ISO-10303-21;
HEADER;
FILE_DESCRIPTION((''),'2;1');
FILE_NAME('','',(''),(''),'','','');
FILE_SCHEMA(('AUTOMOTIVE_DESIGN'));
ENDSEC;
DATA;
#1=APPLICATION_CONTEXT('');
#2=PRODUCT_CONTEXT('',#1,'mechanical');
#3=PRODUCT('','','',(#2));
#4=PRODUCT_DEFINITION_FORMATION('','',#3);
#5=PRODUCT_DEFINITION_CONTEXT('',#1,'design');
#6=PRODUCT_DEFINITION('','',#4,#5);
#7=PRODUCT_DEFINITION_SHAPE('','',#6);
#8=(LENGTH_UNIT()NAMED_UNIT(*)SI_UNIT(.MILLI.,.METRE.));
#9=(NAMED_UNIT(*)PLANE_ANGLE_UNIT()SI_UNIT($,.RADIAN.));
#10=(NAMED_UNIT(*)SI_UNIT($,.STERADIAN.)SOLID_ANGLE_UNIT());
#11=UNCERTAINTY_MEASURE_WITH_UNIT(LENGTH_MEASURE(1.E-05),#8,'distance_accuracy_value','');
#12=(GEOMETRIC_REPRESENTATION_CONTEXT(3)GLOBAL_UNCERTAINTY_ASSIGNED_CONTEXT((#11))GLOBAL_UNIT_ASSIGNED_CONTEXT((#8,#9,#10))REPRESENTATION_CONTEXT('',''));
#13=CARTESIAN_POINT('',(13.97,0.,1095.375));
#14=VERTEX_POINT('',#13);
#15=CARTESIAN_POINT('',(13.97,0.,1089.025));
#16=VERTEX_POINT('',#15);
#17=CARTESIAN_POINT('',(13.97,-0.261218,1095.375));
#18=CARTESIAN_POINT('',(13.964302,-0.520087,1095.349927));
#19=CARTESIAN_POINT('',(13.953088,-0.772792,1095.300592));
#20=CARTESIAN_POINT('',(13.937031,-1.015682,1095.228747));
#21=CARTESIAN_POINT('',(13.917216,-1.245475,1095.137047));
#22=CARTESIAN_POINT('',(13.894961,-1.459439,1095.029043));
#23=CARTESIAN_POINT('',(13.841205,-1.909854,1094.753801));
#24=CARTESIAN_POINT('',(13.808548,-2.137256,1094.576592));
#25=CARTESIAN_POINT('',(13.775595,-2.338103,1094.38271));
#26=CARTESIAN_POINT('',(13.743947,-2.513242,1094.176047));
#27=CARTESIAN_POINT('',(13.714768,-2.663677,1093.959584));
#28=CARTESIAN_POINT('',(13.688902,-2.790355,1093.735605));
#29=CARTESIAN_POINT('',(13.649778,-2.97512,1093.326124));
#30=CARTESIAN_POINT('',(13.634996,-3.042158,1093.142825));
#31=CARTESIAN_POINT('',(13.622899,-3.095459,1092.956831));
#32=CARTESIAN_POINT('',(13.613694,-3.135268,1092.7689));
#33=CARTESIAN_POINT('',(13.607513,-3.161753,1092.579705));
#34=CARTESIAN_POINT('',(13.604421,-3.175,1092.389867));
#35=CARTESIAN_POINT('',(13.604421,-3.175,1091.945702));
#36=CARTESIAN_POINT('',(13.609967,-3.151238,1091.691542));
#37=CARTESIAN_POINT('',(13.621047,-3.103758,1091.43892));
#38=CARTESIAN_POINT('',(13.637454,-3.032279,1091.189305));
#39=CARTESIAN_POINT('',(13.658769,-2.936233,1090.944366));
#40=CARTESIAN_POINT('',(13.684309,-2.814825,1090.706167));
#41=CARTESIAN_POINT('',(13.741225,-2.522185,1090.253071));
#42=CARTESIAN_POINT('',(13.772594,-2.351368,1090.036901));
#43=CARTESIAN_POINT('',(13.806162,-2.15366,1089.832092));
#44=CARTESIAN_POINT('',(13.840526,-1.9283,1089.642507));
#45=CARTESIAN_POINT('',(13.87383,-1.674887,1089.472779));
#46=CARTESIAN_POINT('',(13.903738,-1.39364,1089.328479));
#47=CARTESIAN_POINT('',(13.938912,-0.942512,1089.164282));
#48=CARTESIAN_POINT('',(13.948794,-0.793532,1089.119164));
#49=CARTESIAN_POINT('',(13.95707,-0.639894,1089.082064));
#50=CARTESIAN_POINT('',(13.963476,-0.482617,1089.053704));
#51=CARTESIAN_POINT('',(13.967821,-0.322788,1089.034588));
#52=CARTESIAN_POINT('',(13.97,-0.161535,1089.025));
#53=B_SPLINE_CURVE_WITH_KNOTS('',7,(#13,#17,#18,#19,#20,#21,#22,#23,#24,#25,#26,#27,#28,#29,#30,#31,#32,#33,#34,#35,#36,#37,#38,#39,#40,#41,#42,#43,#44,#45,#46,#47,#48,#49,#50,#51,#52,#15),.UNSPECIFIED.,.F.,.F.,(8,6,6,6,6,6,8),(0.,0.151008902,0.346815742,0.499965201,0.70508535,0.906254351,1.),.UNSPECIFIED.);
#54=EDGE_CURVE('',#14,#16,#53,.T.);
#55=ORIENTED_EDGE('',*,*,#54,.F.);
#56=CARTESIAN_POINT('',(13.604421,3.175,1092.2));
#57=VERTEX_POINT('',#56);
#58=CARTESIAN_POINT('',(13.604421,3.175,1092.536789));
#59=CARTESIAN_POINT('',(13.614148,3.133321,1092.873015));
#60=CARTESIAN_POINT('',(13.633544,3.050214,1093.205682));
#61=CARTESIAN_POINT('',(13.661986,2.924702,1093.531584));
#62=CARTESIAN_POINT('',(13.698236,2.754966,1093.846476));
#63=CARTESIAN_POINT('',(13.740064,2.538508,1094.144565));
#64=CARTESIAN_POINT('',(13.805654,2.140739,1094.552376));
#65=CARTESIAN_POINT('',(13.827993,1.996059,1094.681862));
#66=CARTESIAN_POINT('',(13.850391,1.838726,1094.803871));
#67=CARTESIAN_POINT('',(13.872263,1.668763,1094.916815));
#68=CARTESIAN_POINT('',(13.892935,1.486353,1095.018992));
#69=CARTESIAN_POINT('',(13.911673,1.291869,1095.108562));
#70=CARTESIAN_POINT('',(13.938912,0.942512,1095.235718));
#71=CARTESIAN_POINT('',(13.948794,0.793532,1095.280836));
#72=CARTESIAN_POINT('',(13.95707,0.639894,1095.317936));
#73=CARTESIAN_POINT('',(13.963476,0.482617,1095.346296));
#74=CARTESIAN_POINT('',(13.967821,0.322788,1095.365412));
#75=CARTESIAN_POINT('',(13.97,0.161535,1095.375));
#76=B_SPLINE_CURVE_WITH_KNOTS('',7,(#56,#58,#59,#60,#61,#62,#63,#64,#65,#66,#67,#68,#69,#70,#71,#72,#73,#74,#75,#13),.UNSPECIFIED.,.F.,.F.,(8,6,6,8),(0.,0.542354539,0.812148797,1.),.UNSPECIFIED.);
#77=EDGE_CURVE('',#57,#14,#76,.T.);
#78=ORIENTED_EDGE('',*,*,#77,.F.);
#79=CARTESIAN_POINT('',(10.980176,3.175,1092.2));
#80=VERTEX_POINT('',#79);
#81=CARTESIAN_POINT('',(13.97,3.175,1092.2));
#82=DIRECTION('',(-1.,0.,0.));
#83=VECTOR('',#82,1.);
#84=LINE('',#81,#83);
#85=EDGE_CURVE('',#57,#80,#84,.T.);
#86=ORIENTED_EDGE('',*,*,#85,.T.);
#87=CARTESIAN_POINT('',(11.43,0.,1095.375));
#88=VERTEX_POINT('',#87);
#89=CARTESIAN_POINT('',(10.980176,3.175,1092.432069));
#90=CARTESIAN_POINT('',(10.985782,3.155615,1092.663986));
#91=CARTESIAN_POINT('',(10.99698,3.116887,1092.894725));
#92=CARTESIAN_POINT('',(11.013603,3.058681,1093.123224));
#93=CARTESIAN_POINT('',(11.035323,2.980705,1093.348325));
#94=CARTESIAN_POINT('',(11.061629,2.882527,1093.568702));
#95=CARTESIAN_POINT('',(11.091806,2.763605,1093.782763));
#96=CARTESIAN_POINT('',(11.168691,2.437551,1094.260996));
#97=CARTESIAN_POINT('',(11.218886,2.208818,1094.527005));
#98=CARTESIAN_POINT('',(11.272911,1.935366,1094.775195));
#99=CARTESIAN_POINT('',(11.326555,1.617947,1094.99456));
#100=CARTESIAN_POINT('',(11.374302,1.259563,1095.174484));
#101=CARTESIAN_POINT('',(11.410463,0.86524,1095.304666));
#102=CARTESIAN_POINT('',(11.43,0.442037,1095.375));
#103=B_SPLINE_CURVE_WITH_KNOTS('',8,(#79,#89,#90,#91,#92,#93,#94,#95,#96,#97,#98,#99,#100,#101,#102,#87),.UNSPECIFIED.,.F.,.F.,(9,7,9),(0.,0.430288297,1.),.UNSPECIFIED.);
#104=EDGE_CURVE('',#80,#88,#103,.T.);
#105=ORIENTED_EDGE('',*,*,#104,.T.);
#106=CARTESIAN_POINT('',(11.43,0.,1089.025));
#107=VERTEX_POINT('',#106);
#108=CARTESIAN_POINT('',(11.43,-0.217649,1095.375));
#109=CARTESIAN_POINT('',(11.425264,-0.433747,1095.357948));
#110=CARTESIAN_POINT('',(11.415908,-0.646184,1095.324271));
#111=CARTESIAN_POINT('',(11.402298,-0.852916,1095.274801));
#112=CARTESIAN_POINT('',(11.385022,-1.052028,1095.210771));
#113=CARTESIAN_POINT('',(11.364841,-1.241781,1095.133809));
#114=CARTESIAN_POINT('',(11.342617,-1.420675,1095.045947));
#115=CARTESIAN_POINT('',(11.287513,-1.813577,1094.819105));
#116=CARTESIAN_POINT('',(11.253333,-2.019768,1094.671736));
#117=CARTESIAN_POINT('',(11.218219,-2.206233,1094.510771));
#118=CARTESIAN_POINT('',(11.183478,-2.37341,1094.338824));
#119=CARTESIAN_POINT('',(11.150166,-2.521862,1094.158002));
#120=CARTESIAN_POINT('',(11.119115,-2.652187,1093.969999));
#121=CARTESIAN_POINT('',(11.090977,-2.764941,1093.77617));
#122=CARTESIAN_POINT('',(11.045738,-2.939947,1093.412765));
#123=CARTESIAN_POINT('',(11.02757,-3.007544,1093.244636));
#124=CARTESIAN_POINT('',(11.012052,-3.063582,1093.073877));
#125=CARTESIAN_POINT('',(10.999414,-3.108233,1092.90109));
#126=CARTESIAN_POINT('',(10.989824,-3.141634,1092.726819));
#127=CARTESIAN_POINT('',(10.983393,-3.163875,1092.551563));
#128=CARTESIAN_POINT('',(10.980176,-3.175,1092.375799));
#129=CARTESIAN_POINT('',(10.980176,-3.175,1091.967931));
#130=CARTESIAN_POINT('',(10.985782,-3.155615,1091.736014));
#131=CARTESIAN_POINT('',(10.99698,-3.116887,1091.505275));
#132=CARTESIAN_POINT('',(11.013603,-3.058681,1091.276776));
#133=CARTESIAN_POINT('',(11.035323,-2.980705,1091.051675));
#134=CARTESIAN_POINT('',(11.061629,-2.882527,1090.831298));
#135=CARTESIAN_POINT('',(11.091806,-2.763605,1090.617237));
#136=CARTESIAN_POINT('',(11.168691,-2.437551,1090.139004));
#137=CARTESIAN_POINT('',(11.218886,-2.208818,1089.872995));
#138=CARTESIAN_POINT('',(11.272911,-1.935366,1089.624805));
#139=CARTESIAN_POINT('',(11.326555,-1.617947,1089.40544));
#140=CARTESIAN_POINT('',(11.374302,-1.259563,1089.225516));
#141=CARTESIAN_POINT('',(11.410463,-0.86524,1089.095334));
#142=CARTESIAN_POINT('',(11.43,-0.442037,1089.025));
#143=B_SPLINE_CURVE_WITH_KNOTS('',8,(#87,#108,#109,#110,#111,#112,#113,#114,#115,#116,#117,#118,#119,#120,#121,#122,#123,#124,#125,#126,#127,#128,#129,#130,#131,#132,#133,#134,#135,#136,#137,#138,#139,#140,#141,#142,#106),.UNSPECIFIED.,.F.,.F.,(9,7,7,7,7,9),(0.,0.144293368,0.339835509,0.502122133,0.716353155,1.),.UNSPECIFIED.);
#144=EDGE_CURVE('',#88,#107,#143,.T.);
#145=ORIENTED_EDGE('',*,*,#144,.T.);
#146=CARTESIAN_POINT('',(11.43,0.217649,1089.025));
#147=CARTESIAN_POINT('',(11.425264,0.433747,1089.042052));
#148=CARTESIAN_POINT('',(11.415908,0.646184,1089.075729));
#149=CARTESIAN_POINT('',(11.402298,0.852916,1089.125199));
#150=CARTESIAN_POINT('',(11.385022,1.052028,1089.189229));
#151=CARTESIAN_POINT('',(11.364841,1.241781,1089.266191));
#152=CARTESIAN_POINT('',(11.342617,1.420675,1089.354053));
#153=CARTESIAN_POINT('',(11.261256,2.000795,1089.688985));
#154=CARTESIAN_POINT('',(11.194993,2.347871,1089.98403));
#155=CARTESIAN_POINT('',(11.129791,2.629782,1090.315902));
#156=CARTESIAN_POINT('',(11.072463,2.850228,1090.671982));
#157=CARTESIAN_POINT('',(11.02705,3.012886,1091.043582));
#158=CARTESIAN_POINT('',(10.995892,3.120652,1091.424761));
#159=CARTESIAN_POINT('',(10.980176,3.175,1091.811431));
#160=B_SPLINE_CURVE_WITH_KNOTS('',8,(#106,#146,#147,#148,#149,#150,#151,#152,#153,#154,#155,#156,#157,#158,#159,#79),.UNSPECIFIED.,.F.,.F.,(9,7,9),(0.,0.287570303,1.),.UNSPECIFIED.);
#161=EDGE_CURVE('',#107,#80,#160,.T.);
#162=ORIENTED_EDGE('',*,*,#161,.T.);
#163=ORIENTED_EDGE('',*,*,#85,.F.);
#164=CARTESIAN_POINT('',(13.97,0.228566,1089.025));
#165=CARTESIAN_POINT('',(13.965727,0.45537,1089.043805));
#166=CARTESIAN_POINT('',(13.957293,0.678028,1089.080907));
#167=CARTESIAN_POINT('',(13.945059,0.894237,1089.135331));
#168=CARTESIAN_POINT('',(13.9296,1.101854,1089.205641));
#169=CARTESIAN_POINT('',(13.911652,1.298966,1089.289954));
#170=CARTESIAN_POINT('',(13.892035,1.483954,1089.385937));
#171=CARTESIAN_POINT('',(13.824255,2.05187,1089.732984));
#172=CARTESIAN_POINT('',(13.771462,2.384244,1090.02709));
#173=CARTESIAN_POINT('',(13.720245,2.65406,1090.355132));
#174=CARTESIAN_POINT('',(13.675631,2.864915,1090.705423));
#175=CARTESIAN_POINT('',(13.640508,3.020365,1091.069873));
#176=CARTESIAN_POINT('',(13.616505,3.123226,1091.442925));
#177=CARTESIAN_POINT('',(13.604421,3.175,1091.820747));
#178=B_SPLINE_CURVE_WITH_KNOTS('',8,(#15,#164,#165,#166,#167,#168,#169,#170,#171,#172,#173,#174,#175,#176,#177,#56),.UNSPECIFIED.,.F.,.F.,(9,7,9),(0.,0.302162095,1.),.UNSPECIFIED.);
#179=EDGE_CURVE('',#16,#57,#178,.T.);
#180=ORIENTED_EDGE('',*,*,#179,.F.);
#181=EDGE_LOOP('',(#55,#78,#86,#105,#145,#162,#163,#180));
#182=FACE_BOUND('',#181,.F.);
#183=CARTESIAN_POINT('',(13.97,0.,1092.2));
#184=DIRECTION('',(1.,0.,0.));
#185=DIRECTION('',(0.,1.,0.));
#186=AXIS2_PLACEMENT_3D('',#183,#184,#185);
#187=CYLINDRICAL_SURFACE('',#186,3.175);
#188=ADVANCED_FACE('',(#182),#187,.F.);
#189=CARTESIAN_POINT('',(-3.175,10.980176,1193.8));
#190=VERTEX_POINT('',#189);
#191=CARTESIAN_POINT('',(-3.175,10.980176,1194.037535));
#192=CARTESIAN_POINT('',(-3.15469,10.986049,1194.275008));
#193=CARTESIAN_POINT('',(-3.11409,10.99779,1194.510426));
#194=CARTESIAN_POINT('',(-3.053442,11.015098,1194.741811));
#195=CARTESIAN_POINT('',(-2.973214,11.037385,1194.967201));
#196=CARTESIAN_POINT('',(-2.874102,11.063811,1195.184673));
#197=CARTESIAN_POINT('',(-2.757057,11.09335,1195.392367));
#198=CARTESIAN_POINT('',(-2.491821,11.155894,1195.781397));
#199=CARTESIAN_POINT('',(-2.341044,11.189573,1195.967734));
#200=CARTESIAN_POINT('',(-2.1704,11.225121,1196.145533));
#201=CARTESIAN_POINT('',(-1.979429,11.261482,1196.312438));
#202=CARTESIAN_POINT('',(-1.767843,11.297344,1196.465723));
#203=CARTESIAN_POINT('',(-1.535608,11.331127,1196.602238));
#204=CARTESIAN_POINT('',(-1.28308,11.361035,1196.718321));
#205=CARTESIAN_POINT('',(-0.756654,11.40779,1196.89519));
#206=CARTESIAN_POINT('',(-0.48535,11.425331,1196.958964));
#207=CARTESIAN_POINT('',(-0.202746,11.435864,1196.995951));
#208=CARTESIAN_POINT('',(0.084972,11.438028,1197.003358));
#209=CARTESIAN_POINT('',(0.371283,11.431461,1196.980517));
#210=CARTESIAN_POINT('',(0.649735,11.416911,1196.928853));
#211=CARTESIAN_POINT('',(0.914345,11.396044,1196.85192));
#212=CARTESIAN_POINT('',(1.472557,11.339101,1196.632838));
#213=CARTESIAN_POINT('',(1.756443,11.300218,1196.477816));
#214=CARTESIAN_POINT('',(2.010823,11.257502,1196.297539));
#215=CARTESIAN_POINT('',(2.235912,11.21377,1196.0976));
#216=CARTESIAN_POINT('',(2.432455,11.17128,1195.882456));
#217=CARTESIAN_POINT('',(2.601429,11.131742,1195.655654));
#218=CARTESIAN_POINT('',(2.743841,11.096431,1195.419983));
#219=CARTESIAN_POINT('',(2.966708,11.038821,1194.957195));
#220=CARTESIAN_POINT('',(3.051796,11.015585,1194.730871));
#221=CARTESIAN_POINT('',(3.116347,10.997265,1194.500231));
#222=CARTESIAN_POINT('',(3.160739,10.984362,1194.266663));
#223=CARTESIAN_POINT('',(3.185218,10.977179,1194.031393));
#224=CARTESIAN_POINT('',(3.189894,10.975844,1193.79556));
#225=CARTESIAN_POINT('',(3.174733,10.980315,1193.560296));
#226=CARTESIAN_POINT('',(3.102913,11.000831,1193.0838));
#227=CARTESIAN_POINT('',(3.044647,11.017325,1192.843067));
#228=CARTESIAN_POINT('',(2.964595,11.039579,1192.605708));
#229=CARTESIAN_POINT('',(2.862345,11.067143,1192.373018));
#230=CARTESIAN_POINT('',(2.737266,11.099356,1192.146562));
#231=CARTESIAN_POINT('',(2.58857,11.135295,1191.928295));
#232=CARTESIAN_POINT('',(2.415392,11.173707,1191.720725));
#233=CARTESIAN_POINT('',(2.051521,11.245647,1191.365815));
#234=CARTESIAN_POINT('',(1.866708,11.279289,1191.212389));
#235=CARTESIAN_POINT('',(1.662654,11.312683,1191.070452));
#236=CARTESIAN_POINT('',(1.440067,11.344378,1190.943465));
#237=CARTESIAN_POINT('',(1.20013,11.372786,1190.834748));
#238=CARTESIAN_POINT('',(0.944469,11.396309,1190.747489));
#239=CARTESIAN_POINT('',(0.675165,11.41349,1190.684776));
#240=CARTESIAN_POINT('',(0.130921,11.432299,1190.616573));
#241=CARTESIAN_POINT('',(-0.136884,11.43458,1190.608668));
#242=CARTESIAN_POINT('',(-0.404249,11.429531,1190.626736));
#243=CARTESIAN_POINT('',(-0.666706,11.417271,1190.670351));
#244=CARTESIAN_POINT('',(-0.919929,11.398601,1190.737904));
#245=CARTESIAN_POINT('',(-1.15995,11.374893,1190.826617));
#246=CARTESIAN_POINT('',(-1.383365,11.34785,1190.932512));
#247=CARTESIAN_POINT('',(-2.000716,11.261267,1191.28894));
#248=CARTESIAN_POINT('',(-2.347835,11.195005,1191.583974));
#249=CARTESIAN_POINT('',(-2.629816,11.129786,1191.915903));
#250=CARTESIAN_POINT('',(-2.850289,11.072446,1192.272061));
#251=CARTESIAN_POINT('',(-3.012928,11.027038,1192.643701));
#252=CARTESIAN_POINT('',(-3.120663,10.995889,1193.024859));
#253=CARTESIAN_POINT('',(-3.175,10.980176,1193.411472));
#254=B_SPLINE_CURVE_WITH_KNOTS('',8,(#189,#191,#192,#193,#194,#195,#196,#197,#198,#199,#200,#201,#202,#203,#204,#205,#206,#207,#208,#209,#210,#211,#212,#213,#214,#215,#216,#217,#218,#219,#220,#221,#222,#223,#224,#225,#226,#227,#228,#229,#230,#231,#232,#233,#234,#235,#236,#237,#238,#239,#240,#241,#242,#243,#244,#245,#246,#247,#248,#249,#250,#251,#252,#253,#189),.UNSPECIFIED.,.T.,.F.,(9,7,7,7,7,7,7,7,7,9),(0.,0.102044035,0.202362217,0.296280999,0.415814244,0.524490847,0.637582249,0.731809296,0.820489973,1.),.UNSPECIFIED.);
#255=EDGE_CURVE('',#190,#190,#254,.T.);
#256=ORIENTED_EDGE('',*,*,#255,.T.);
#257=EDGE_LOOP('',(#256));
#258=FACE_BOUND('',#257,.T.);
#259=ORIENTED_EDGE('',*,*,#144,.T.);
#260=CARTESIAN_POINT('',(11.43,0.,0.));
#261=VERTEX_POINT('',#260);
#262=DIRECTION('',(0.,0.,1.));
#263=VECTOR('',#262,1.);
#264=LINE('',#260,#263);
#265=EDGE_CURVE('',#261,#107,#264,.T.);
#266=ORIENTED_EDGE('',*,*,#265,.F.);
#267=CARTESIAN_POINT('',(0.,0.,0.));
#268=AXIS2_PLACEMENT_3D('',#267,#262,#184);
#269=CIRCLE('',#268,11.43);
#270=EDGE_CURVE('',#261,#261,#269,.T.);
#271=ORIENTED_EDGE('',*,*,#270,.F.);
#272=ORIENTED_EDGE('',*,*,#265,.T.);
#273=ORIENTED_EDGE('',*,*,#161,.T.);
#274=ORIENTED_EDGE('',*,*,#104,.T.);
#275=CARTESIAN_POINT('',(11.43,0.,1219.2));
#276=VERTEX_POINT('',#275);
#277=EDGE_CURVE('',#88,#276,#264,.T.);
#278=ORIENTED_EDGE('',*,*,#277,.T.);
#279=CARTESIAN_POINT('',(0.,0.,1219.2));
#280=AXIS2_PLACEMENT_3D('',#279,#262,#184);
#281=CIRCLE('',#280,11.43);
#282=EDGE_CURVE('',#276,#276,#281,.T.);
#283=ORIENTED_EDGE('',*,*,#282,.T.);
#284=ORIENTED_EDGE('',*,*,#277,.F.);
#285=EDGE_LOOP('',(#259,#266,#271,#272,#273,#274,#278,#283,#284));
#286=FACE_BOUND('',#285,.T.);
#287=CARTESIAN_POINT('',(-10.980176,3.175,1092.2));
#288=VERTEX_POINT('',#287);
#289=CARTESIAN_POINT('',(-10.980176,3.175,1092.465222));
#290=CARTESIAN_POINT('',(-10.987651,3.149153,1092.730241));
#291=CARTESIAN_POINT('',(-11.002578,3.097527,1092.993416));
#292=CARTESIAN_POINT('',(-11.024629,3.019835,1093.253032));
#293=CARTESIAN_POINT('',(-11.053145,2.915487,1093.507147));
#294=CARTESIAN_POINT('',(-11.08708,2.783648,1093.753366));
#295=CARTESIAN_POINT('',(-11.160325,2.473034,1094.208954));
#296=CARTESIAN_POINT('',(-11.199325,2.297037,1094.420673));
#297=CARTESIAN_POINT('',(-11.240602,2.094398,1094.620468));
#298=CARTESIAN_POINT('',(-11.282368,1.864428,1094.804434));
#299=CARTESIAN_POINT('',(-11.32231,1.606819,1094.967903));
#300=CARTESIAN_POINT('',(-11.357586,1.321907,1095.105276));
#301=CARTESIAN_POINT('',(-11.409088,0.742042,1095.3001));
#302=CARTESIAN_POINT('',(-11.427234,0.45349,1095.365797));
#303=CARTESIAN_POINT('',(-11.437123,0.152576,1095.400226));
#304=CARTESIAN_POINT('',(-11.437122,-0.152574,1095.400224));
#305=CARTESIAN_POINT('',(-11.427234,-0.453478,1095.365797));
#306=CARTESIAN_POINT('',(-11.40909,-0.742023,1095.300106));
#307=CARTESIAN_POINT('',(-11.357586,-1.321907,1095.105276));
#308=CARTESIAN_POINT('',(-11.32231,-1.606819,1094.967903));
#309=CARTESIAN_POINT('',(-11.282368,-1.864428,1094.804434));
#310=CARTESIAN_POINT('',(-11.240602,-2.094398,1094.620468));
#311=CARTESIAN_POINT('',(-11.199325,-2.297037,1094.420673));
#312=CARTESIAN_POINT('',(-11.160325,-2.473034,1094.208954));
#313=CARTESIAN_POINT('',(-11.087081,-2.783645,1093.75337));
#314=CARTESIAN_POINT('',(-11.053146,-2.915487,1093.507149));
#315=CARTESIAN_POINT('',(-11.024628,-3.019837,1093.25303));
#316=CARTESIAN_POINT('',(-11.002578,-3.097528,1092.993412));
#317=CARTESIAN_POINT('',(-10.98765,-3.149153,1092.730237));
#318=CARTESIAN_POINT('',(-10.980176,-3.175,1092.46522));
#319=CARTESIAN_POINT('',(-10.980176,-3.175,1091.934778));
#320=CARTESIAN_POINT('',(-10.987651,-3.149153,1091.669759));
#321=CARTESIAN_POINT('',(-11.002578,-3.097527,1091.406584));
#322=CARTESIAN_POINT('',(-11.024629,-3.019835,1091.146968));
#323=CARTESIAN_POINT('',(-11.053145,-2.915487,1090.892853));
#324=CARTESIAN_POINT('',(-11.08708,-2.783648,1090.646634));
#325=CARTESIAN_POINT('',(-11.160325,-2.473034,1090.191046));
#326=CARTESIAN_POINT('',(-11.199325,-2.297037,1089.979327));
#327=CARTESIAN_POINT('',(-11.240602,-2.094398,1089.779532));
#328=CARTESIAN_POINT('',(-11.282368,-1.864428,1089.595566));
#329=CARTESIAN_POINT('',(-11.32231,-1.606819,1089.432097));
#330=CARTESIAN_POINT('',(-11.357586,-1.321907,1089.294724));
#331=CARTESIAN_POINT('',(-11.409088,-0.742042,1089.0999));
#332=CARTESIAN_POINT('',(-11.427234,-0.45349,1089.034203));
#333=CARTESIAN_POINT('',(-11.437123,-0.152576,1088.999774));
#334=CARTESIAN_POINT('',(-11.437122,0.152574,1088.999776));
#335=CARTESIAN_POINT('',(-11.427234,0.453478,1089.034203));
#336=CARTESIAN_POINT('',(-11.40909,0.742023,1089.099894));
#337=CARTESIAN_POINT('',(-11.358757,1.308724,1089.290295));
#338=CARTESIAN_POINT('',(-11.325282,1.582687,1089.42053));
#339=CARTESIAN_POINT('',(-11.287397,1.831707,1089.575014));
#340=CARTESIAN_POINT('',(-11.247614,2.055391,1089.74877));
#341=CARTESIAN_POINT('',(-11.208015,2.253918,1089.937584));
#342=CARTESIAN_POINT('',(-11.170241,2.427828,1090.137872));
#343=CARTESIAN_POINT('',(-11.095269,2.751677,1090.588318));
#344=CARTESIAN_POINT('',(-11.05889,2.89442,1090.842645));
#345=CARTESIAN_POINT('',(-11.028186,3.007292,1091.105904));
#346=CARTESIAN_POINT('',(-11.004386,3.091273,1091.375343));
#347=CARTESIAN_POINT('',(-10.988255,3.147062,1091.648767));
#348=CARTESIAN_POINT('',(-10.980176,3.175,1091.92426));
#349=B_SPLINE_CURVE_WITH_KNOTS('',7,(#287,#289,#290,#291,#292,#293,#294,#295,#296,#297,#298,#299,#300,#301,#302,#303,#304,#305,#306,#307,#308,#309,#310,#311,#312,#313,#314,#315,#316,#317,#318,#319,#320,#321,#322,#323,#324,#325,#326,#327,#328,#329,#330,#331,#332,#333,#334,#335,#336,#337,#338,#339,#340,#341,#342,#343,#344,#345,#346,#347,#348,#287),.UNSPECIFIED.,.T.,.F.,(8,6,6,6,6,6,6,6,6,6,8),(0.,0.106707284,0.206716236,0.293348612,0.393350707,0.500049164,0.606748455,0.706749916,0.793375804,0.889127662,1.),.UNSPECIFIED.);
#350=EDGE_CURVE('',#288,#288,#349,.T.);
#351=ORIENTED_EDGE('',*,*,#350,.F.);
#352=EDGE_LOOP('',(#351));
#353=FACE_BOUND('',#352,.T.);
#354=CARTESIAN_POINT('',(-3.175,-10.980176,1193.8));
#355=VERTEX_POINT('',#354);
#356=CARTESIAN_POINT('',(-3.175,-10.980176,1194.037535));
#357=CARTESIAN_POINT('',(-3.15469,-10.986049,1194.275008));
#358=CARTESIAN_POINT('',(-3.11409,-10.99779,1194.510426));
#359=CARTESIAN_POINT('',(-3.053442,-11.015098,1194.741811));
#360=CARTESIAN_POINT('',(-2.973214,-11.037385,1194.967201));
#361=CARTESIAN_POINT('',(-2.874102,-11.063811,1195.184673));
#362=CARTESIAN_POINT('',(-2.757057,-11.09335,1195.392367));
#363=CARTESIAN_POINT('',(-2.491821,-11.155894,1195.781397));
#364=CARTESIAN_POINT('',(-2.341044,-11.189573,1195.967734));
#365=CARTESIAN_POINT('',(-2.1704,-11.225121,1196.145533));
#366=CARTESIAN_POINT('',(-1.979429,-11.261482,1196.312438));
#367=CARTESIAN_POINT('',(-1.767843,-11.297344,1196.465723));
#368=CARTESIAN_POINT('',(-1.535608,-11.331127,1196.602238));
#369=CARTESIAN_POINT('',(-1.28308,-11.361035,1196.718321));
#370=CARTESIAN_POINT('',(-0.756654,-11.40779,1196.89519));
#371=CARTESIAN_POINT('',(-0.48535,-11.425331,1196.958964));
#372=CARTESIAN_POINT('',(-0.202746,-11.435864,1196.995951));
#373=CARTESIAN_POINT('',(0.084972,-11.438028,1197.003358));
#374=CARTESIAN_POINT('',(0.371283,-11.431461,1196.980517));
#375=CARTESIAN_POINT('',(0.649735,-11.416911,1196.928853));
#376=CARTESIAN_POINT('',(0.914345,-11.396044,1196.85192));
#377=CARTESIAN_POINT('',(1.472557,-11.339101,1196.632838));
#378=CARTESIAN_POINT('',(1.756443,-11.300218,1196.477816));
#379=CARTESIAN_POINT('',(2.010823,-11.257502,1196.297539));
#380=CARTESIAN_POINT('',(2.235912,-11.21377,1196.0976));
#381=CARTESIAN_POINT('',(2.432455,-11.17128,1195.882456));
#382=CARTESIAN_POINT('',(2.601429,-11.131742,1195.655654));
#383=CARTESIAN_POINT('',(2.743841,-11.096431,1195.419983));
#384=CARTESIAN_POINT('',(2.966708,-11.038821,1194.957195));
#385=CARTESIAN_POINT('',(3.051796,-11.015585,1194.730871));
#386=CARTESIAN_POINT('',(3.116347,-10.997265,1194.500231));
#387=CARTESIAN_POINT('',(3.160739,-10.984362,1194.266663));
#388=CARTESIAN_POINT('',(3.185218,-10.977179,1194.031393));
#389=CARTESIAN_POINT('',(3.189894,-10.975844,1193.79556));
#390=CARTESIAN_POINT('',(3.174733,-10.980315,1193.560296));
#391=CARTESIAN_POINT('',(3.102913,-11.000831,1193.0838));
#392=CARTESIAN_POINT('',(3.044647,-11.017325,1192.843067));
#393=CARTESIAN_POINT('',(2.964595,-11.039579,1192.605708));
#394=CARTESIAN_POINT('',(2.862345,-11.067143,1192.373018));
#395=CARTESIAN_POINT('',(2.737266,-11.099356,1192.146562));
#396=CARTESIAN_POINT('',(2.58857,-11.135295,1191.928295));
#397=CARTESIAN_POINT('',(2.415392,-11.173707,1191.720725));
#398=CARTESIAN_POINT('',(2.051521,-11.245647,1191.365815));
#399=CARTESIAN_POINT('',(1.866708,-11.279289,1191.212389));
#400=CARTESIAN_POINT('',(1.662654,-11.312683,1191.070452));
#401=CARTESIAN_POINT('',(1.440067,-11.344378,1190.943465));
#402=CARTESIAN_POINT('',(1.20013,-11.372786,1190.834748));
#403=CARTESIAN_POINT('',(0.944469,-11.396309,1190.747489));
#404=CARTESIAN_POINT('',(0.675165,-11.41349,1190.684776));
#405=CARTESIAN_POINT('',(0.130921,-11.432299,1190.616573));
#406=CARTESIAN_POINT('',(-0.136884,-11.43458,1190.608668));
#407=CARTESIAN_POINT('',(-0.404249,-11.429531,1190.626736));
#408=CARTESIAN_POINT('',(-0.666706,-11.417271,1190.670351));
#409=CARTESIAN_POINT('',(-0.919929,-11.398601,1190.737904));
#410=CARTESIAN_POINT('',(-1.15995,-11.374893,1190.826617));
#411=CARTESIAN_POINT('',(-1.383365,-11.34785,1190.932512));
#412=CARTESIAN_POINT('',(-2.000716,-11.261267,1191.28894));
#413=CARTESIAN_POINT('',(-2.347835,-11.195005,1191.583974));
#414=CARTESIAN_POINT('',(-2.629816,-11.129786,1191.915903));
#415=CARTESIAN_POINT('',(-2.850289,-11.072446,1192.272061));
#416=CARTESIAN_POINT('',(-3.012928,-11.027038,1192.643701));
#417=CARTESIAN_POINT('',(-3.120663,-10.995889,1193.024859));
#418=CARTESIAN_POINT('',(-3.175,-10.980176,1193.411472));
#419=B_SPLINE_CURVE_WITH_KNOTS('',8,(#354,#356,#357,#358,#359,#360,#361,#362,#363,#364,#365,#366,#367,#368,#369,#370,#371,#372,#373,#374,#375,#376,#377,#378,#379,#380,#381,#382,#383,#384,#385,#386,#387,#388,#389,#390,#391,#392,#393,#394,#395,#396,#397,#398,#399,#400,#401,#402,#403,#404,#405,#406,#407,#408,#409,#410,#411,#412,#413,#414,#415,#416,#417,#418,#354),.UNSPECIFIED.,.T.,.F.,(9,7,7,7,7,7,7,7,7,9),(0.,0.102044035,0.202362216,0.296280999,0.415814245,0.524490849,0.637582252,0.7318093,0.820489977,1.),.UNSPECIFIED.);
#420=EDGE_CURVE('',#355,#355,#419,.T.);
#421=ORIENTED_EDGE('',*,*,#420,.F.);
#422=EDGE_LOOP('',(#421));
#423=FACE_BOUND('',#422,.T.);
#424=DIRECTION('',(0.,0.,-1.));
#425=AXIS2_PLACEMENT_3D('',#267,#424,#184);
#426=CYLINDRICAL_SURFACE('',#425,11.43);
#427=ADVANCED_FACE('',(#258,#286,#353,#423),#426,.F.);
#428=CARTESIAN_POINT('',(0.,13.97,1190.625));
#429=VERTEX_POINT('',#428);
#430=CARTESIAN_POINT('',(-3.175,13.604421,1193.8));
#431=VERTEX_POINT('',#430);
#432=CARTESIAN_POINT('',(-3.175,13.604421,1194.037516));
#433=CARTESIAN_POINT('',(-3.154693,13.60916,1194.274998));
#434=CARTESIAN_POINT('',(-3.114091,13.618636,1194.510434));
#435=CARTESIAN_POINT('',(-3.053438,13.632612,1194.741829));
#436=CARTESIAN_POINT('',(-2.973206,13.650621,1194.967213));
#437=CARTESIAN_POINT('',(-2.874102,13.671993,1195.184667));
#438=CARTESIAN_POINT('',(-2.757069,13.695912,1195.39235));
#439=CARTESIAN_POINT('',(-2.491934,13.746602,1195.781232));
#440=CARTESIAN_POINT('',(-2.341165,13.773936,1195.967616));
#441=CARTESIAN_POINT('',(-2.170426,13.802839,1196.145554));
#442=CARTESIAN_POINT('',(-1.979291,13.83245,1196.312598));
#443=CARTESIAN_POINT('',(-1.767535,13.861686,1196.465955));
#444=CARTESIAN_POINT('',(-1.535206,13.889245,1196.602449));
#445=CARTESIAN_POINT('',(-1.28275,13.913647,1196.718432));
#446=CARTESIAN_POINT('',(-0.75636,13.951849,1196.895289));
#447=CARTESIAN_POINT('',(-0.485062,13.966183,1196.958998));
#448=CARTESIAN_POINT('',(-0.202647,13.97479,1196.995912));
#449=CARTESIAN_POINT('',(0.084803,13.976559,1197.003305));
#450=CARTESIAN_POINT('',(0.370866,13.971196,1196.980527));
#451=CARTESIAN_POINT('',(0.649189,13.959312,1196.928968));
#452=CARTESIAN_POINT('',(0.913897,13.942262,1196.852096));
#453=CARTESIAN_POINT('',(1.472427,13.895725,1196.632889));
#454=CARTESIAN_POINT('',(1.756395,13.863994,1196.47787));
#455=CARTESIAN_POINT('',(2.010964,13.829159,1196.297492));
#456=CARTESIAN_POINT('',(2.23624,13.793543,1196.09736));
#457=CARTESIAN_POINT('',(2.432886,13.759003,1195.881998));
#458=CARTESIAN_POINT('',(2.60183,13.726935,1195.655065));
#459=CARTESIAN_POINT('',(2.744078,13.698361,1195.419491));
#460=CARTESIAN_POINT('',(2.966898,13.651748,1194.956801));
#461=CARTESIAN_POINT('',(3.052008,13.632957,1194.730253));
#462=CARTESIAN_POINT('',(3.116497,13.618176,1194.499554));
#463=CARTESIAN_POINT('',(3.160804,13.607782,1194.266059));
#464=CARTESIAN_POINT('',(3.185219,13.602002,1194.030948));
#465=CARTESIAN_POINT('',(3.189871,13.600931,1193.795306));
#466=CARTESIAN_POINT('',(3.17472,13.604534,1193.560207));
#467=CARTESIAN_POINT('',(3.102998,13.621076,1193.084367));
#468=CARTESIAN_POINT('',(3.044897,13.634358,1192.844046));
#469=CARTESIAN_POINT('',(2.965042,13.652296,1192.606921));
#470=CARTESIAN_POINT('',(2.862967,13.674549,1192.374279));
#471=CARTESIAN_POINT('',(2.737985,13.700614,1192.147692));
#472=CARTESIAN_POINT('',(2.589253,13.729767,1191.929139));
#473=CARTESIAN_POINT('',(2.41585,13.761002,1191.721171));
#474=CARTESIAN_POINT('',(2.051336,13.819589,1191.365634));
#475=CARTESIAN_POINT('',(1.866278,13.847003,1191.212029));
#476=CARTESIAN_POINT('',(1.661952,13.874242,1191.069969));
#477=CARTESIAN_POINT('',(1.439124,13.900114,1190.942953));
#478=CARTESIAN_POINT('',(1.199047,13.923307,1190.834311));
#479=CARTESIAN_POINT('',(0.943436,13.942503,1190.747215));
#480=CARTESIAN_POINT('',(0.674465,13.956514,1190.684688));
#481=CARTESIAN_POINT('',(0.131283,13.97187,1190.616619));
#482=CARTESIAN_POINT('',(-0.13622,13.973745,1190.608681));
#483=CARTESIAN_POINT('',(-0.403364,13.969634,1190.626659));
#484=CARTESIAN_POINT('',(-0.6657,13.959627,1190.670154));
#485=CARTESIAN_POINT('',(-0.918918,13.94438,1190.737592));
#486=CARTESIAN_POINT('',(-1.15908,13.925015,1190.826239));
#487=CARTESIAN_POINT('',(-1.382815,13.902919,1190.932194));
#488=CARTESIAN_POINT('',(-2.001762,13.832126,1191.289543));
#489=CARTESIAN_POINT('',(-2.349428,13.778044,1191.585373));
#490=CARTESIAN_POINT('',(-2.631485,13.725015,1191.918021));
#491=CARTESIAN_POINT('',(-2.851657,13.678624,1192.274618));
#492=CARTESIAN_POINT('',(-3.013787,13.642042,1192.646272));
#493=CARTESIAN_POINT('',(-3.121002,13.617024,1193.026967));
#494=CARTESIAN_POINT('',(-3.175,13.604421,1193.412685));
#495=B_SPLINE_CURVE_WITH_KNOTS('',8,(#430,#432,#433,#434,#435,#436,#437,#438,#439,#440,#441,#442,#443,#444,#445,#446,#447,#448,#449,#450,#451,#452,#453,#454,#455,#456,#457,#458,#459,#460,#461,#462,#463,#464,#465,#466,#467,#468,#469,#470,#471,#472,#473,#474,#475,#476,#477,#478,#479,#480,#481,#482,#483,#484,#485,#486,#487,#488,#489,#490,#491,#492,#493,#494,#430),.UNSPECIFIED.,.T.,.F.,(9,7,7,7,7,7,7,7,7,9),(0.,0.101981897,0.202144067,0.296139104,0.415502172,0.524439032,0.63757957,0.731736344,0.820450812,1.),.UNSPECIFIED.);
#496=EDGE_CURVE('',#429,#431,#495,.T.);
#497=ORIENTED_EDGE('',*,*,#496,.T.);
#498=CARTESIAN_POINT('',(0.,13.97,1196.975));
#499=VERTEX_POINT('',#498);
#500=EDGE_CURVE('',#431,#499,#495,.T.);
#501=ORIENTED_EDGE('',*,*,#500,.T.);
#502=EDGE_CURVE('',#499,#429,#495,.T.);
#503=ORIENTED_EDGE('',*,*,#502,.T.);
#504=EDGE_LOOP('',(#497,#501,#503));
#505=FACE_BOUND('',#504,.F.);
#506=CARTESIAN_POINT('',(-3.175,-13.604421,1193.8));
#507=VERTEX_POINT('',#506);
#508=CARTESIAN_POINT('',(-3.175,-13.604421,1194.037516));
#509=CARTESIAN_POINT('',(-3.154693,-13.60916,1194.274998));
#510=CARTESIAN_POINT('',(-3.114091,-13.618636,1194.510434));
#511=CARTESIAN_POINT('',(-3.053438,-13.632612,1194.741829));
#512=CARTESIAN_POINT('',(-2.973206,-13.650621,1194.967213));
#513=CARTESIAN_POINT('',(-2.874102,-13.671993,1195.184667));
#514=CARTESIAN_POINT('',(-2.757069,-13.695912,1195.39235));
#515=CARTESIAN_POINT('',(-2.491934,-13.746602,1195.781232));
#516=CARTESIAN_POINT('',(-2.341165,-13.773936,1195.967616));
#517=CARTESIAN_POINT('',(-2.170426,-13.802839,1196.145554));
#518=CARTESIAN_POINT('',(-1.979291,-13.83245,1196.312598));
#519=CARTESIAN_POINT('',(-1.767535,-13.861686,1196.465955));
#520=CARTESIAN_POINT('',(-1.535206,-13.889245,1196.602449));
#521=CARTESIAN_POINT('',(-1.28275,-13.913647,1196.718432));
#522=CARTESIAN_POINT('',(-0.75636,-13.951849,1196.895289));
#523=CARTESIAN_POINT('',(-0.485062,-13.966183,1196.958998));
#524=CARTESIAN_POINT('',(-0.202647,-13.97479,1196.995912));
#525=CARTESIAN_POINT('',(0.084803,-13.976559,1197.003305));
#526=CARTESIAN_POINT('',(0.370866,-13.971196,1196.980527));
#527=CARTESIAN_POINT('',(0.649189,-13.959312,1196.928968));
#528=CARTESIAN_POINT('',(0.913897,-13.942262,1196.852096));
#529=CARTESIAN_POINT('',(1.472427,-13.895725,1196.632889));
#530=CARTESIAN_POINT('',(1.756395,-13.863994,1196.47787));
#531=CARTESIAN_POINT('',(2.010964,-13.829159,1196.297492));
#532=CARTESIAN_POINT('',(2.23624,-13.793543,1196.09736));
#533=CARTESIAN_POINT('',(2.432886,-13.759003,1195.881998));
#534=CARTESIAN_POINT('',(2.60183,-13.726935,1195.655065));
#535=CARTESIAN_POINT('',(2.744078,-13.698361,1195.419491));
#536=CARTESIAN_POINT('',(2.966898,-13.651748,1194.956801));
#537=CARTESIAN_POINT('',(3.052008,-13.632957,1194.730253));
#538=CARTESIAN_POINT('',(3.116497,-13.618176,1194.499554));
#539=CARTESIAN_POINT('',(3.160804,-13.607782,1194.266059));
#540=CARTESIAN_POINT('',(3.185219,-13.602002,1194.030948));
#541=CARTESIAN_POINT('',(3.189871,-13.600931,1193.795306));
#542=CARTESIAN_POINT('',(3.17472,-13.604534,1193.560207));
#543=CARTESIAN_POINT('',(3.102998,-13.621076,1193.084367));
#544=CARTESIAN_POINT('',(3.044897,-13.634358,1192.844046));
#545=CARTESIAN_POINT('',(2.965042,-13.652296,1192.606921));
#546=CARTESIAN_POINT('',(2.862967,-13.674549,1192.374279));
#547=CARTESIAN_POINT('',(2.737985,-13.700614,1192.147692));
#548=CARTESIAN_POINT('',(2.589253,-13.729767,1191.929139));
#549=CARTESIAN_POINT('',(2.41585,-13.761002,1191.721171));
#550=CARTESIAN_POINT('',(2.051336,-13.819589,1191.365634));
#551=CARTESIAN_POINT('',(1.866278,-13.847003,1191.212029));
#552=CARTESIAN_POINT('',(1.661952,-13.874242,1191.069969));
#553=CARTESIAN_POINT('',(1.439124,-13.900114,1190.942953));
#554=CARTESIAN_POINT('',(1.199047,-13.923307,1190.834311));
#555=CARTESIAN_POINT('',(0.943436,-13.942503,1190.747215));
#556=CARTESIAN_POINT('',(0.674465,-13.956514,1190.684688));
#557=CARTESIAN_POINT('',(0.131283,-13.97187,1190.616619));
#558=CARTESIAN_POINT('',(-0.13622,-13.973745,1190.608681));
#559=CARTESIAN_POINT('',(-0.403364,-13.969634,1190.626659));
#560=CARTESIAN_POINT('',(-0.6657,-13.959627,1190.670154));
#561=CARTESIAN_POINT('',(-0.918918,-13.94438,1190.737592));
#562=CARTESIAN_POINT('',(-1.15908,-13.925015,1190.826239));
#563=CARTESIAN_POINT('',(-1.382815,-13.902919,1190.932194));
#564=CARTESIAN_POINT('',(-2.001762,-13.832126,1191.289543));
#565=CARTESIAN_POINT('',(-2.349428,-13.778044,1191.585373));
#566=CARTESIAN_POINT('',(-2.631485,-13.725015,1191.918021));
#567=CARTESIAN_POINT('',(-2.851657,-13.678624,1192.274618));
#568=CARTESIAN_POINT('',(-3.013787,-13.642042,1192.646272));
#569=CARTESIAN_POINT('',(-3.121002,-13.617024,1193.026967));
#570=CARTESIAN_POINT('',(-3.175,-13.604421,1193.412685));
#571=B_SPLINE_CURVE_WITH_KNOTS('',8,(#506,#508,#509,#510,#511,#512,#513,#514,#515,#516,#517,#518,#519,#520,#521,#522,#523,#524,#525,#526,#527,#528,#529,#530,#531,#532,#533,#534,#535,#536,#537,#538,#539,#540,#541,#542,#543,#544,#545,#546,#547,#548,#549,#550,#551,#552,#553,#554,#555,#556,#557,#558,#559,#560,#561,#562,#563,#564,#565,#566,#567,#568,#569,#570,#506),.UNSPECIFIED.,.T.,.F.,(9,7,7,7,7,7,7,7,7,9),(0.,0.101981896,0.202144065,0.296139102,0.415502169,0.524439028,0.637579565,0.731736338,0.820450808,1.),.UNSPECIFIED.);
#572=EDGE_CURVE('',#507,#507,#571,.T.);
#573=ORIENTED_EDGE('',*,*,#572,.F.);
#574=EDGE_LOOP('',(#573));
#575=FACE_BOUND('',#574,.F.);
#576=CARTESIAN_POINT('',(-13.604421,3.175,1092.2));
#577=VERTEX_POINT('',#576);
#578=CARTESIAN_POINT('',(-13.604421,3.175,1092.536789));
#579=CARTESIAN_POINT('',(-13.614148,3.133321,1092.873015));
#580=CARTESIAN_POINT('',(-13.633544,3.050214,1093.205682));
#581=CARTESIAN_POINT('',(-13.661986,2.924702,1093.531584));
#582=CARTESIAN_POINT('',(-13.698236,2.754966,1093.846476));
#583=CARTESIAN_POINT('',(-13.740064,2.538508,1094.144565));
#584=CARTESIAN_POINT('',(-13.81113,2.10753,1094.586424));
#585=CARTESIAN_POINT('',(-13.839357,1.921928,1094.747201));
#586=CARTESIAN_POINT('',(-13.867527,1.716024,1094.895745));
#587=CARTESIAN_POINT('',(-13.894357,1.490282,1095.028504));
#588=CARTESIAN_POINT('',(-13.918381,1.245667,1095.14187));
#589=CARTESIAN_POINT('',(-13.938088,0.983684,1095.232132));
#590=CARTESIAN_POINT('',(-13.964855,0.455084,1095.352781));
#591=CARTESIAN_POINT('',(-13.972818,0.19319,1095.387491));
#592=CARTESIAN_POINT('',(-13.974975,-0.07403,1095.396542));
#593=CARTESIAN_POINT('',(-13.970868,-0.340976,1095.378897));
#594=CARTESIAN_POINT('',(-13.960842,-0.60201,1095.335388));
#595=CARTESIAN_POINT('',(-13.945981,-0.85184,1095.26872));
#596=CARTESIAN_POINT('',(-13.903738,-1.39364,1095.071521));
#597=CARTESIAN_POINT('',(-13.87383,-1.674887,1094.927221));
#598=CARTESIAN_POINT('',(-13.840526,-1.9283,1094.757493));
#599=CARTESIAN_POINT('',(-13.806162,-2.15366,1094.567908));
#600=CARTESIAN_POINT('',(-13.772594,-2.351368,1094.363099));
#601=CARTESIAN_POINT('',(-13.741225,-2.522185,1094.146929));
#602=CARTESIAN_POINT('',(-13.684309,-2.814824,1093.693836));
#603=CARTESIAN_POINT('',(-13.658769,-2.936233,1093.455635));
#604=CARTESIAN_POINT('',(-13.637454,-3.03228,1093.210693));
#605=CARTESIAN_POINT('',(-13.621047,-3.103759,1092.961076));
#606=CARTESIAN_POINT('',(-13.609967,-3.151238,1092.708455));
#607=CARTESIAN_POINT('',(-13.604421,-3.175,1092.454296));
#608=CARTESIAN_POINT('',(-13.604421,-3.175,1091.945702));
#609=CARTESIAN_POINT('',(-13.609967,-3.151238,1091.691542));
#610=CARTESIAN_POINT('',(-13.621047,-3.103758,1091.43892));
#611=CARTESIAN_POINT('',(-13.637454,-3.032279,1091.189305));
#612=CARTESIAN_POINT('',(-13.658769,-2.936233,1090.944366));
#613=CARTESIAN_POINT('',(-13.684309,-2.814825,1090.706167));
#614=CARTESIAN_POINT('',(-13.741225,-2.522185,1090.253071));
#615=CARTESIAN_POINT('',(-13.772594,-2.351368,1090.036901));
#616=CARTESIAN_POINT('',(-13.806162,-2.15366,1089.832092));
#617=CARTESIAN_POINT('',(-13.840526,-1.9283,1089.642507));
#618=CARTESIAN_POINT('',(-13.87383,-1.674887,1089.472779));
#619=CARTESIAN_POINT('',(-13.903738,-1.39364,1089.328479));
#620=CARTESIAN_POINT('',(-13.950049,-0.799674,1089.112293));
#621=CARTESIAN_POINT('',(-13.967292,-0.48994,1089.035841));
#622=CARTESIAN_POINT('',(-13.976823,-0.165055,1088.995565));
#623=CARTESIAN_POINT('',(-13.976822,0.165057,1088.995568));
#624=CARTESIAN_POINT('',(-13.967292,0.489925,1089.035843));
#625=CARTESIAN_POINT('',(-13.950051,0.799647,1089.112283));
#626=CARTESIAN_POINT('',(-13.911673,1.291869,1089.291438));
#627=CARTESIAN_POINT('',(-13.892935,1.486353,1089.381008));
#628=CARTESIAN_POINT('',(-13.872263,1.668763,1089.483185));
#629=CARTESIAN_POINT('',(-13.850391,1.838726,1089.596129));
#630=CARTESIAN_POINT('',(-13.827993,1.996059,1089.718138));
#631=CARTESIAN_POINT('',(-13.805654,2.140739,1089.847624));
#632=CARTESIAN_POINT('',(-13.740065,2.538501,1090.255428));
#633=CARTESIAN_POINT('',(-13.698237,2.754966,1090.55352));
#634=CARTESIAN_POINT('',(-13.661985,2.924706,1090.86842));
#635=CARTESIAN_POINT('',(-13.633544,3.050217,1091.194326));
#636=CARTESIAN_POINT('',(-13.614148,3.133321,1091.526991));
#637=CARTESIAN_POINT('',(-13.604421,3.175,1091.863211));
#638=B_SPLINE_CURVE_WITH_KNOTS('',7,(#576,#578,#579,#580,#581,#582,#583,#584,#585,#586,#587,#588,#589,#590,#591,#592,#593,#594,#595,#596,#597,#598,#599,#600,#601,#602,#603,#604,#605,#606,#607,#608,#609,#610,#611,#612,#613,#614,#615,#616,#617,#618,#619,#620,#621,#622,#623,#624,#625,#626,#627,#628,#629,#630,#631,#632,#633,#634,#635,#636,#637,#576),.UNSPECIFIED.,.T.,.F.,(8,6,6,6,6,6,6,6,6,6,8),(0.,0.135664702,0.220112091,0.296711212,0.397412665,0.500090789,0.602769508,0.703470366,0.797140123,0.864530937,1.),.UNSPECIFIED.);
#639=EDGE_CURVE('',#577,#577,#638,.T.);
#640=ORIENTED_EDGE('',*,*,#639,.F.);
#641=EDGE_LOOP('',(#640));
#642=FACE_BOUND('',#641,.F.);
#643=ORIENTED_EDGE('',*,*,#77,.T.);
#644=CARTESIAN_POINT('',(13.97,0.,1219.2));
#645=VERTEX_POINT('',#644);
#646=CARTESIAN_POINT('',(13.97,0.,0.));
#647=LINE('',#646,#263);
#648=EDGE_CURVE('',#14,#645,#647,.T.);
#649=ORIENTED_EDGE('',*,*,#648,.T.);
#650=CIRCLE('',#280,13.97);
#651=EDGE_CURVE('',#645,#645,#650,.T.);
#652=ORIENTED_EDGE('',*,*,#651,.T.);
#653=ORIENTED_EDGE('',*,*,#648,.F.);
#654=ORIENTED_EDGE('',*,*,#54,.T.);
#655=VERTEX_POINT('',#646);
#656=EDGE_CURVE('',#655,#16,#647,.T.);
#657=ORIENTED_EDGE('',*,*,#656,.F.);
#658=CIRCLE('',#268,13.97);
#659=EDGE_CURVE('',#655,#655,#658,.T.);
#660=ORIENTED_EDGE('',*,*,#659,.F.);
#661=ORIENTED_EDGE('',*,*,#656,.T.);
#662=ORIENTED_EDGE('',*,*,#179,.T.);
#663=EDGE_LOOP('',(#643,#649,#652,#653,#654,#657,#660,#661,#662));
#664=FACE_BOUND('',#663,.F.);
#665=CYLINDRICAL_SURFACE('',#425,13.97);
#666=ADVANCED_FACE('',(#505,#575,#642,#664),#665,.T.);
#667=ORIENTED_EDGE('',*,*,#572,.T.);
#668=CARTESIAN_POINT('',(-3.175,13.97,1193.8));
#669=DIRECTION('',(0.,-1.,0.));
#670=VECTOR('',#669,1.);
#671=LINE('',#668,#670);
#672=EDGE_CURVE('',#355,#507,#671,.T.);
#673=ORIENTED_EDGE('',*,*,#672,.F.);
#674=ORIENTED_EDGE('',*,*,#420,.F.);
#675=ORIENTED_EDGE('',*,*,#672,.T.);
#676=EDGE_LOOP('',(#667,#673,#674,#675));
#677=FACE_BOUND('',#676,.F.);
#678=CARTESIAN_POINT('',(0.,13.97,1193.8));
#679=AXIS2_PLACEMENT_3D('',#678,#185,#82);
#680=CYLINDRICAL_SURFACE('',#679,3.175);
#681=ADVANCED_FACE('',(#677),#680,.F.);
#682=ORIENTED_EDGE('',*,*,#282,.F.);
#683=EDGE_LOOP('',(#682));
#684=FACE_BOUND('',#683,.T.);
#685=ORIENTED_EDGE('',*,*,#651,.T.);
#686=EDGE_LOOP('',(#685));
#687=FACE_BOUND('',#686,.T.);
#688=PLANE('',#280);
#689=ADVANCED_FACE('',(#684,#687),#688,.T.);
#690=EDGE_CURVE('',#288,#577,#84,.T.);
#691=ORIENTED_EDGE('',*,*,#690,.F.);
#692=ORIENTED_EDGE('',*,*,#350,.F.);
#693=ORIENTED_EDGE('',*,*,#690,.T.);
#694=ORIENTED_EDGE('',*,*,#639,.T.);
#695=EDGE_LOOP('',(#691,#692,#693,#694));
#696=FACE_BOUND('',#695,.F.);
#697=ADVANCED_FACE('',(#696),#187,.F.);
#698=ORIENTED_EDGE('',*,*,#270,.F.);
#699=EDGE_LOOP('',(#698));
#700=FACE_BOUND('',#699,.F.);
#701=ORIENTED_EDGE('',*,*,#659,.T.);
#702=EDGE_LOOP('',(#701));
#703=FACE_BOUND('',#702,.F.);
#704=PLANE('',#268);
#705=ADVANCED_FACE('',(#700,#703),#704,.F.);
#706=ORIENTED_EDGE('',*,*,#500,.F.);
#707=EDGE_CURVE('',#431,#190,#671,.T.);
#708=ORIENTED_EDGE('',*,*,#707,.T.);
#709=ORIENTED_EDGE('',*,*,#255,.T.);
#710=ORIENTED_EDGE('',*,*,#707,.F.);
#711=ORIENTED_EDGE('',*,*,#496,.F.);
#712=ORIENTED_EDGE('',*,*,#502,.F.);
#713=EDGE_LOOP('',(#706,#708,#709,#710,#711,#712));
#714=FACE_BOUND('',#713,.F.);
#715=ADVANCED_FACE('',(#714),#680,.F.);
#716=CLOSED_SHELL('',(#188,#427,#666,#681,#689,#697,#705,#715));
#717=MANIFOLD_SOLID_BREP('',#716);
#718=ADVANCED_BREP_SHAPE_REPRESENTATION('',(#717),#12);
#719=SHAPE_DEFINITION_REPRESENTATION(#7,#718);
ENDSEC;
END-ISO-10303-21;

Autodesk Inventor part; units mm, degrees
ref_plane "XY Plane" through (0, 0, 0) normal (0, 0, 1) x (1, 0, 0)
sketch "Sketch1" plane through (0, 0, 0) normal (0, 0, 1) x (1, 0, 0)
  circle A0 centre (0, 0) radius 11.43
  circle A1 centre (0, 0) radius 13.97
  dimension "d0" = 27.94
  dimension "d1" = 22.86
extrude "Extrusion1" add sketch "Sketch1" along normal blind 1219.2
ref_plane "Work Plane3" through (13.97, 0, 0) normal (1, 0, 0) x (0, 1, 0)
sketch "Sketch3" plane through (13.97, 0, 0) normal (1, 0, 0) x (0, 1, 0)
  circle A0 centre (0, 1092.2) radius 3.175
  line L0 (13.97, 1219.2) -> (-13.97, 1219.2) projected
  point P0 (0, 0)
  dimension "d5" = 127
  dimension "d6" = 6.35
extrude "Extrusion2" cut sketch "Sketch3" against normal through all
ref_plane "Work Plane4" through (0, 13.97, 0) normal (0, 1, 0) x (-1, 0, 0)
sketch "Sketch4" plane through (0, 13.97, 0) normal (0, 1, 0) x (-1, 0, 0)
  circle A0 centre (0, 1193.8) radius 3.175
  line L0 (13.97, 1219.2) -> (-13.97, 1219.2) projected
  point P0 (0, 0)
  dimension "d9" = 6.35
  dimension "d10" = 25.4
extrude "Extrusion3" cut sketch "Sketch4" against normal through all
equation "\"d1\" = cArmInsideDiam"
equation "\"d5\" = cArmAxelDistanceFromEnd"
equation "\"d6\" = boltHolesDiam"
equation "\"d9\" = boltHolesDiam"
equation "\"d10\" = cArmHingeDistanceFromEnd"
equation "\"cArmAxelDistanceFromEnd\" = 127"
equation "\"cArmOutsideDiam\" = 27.94"
equation "\"cArmInsideDiam\" = 22.86"
equation "\"cArmLength\" = 1219.2"
equation "\"boltHolesDiam\" = 6.35"
equation "\"cArmHingeDistanceFromEnd\" = 25.4"
properties part number "roundCatapultArm"
